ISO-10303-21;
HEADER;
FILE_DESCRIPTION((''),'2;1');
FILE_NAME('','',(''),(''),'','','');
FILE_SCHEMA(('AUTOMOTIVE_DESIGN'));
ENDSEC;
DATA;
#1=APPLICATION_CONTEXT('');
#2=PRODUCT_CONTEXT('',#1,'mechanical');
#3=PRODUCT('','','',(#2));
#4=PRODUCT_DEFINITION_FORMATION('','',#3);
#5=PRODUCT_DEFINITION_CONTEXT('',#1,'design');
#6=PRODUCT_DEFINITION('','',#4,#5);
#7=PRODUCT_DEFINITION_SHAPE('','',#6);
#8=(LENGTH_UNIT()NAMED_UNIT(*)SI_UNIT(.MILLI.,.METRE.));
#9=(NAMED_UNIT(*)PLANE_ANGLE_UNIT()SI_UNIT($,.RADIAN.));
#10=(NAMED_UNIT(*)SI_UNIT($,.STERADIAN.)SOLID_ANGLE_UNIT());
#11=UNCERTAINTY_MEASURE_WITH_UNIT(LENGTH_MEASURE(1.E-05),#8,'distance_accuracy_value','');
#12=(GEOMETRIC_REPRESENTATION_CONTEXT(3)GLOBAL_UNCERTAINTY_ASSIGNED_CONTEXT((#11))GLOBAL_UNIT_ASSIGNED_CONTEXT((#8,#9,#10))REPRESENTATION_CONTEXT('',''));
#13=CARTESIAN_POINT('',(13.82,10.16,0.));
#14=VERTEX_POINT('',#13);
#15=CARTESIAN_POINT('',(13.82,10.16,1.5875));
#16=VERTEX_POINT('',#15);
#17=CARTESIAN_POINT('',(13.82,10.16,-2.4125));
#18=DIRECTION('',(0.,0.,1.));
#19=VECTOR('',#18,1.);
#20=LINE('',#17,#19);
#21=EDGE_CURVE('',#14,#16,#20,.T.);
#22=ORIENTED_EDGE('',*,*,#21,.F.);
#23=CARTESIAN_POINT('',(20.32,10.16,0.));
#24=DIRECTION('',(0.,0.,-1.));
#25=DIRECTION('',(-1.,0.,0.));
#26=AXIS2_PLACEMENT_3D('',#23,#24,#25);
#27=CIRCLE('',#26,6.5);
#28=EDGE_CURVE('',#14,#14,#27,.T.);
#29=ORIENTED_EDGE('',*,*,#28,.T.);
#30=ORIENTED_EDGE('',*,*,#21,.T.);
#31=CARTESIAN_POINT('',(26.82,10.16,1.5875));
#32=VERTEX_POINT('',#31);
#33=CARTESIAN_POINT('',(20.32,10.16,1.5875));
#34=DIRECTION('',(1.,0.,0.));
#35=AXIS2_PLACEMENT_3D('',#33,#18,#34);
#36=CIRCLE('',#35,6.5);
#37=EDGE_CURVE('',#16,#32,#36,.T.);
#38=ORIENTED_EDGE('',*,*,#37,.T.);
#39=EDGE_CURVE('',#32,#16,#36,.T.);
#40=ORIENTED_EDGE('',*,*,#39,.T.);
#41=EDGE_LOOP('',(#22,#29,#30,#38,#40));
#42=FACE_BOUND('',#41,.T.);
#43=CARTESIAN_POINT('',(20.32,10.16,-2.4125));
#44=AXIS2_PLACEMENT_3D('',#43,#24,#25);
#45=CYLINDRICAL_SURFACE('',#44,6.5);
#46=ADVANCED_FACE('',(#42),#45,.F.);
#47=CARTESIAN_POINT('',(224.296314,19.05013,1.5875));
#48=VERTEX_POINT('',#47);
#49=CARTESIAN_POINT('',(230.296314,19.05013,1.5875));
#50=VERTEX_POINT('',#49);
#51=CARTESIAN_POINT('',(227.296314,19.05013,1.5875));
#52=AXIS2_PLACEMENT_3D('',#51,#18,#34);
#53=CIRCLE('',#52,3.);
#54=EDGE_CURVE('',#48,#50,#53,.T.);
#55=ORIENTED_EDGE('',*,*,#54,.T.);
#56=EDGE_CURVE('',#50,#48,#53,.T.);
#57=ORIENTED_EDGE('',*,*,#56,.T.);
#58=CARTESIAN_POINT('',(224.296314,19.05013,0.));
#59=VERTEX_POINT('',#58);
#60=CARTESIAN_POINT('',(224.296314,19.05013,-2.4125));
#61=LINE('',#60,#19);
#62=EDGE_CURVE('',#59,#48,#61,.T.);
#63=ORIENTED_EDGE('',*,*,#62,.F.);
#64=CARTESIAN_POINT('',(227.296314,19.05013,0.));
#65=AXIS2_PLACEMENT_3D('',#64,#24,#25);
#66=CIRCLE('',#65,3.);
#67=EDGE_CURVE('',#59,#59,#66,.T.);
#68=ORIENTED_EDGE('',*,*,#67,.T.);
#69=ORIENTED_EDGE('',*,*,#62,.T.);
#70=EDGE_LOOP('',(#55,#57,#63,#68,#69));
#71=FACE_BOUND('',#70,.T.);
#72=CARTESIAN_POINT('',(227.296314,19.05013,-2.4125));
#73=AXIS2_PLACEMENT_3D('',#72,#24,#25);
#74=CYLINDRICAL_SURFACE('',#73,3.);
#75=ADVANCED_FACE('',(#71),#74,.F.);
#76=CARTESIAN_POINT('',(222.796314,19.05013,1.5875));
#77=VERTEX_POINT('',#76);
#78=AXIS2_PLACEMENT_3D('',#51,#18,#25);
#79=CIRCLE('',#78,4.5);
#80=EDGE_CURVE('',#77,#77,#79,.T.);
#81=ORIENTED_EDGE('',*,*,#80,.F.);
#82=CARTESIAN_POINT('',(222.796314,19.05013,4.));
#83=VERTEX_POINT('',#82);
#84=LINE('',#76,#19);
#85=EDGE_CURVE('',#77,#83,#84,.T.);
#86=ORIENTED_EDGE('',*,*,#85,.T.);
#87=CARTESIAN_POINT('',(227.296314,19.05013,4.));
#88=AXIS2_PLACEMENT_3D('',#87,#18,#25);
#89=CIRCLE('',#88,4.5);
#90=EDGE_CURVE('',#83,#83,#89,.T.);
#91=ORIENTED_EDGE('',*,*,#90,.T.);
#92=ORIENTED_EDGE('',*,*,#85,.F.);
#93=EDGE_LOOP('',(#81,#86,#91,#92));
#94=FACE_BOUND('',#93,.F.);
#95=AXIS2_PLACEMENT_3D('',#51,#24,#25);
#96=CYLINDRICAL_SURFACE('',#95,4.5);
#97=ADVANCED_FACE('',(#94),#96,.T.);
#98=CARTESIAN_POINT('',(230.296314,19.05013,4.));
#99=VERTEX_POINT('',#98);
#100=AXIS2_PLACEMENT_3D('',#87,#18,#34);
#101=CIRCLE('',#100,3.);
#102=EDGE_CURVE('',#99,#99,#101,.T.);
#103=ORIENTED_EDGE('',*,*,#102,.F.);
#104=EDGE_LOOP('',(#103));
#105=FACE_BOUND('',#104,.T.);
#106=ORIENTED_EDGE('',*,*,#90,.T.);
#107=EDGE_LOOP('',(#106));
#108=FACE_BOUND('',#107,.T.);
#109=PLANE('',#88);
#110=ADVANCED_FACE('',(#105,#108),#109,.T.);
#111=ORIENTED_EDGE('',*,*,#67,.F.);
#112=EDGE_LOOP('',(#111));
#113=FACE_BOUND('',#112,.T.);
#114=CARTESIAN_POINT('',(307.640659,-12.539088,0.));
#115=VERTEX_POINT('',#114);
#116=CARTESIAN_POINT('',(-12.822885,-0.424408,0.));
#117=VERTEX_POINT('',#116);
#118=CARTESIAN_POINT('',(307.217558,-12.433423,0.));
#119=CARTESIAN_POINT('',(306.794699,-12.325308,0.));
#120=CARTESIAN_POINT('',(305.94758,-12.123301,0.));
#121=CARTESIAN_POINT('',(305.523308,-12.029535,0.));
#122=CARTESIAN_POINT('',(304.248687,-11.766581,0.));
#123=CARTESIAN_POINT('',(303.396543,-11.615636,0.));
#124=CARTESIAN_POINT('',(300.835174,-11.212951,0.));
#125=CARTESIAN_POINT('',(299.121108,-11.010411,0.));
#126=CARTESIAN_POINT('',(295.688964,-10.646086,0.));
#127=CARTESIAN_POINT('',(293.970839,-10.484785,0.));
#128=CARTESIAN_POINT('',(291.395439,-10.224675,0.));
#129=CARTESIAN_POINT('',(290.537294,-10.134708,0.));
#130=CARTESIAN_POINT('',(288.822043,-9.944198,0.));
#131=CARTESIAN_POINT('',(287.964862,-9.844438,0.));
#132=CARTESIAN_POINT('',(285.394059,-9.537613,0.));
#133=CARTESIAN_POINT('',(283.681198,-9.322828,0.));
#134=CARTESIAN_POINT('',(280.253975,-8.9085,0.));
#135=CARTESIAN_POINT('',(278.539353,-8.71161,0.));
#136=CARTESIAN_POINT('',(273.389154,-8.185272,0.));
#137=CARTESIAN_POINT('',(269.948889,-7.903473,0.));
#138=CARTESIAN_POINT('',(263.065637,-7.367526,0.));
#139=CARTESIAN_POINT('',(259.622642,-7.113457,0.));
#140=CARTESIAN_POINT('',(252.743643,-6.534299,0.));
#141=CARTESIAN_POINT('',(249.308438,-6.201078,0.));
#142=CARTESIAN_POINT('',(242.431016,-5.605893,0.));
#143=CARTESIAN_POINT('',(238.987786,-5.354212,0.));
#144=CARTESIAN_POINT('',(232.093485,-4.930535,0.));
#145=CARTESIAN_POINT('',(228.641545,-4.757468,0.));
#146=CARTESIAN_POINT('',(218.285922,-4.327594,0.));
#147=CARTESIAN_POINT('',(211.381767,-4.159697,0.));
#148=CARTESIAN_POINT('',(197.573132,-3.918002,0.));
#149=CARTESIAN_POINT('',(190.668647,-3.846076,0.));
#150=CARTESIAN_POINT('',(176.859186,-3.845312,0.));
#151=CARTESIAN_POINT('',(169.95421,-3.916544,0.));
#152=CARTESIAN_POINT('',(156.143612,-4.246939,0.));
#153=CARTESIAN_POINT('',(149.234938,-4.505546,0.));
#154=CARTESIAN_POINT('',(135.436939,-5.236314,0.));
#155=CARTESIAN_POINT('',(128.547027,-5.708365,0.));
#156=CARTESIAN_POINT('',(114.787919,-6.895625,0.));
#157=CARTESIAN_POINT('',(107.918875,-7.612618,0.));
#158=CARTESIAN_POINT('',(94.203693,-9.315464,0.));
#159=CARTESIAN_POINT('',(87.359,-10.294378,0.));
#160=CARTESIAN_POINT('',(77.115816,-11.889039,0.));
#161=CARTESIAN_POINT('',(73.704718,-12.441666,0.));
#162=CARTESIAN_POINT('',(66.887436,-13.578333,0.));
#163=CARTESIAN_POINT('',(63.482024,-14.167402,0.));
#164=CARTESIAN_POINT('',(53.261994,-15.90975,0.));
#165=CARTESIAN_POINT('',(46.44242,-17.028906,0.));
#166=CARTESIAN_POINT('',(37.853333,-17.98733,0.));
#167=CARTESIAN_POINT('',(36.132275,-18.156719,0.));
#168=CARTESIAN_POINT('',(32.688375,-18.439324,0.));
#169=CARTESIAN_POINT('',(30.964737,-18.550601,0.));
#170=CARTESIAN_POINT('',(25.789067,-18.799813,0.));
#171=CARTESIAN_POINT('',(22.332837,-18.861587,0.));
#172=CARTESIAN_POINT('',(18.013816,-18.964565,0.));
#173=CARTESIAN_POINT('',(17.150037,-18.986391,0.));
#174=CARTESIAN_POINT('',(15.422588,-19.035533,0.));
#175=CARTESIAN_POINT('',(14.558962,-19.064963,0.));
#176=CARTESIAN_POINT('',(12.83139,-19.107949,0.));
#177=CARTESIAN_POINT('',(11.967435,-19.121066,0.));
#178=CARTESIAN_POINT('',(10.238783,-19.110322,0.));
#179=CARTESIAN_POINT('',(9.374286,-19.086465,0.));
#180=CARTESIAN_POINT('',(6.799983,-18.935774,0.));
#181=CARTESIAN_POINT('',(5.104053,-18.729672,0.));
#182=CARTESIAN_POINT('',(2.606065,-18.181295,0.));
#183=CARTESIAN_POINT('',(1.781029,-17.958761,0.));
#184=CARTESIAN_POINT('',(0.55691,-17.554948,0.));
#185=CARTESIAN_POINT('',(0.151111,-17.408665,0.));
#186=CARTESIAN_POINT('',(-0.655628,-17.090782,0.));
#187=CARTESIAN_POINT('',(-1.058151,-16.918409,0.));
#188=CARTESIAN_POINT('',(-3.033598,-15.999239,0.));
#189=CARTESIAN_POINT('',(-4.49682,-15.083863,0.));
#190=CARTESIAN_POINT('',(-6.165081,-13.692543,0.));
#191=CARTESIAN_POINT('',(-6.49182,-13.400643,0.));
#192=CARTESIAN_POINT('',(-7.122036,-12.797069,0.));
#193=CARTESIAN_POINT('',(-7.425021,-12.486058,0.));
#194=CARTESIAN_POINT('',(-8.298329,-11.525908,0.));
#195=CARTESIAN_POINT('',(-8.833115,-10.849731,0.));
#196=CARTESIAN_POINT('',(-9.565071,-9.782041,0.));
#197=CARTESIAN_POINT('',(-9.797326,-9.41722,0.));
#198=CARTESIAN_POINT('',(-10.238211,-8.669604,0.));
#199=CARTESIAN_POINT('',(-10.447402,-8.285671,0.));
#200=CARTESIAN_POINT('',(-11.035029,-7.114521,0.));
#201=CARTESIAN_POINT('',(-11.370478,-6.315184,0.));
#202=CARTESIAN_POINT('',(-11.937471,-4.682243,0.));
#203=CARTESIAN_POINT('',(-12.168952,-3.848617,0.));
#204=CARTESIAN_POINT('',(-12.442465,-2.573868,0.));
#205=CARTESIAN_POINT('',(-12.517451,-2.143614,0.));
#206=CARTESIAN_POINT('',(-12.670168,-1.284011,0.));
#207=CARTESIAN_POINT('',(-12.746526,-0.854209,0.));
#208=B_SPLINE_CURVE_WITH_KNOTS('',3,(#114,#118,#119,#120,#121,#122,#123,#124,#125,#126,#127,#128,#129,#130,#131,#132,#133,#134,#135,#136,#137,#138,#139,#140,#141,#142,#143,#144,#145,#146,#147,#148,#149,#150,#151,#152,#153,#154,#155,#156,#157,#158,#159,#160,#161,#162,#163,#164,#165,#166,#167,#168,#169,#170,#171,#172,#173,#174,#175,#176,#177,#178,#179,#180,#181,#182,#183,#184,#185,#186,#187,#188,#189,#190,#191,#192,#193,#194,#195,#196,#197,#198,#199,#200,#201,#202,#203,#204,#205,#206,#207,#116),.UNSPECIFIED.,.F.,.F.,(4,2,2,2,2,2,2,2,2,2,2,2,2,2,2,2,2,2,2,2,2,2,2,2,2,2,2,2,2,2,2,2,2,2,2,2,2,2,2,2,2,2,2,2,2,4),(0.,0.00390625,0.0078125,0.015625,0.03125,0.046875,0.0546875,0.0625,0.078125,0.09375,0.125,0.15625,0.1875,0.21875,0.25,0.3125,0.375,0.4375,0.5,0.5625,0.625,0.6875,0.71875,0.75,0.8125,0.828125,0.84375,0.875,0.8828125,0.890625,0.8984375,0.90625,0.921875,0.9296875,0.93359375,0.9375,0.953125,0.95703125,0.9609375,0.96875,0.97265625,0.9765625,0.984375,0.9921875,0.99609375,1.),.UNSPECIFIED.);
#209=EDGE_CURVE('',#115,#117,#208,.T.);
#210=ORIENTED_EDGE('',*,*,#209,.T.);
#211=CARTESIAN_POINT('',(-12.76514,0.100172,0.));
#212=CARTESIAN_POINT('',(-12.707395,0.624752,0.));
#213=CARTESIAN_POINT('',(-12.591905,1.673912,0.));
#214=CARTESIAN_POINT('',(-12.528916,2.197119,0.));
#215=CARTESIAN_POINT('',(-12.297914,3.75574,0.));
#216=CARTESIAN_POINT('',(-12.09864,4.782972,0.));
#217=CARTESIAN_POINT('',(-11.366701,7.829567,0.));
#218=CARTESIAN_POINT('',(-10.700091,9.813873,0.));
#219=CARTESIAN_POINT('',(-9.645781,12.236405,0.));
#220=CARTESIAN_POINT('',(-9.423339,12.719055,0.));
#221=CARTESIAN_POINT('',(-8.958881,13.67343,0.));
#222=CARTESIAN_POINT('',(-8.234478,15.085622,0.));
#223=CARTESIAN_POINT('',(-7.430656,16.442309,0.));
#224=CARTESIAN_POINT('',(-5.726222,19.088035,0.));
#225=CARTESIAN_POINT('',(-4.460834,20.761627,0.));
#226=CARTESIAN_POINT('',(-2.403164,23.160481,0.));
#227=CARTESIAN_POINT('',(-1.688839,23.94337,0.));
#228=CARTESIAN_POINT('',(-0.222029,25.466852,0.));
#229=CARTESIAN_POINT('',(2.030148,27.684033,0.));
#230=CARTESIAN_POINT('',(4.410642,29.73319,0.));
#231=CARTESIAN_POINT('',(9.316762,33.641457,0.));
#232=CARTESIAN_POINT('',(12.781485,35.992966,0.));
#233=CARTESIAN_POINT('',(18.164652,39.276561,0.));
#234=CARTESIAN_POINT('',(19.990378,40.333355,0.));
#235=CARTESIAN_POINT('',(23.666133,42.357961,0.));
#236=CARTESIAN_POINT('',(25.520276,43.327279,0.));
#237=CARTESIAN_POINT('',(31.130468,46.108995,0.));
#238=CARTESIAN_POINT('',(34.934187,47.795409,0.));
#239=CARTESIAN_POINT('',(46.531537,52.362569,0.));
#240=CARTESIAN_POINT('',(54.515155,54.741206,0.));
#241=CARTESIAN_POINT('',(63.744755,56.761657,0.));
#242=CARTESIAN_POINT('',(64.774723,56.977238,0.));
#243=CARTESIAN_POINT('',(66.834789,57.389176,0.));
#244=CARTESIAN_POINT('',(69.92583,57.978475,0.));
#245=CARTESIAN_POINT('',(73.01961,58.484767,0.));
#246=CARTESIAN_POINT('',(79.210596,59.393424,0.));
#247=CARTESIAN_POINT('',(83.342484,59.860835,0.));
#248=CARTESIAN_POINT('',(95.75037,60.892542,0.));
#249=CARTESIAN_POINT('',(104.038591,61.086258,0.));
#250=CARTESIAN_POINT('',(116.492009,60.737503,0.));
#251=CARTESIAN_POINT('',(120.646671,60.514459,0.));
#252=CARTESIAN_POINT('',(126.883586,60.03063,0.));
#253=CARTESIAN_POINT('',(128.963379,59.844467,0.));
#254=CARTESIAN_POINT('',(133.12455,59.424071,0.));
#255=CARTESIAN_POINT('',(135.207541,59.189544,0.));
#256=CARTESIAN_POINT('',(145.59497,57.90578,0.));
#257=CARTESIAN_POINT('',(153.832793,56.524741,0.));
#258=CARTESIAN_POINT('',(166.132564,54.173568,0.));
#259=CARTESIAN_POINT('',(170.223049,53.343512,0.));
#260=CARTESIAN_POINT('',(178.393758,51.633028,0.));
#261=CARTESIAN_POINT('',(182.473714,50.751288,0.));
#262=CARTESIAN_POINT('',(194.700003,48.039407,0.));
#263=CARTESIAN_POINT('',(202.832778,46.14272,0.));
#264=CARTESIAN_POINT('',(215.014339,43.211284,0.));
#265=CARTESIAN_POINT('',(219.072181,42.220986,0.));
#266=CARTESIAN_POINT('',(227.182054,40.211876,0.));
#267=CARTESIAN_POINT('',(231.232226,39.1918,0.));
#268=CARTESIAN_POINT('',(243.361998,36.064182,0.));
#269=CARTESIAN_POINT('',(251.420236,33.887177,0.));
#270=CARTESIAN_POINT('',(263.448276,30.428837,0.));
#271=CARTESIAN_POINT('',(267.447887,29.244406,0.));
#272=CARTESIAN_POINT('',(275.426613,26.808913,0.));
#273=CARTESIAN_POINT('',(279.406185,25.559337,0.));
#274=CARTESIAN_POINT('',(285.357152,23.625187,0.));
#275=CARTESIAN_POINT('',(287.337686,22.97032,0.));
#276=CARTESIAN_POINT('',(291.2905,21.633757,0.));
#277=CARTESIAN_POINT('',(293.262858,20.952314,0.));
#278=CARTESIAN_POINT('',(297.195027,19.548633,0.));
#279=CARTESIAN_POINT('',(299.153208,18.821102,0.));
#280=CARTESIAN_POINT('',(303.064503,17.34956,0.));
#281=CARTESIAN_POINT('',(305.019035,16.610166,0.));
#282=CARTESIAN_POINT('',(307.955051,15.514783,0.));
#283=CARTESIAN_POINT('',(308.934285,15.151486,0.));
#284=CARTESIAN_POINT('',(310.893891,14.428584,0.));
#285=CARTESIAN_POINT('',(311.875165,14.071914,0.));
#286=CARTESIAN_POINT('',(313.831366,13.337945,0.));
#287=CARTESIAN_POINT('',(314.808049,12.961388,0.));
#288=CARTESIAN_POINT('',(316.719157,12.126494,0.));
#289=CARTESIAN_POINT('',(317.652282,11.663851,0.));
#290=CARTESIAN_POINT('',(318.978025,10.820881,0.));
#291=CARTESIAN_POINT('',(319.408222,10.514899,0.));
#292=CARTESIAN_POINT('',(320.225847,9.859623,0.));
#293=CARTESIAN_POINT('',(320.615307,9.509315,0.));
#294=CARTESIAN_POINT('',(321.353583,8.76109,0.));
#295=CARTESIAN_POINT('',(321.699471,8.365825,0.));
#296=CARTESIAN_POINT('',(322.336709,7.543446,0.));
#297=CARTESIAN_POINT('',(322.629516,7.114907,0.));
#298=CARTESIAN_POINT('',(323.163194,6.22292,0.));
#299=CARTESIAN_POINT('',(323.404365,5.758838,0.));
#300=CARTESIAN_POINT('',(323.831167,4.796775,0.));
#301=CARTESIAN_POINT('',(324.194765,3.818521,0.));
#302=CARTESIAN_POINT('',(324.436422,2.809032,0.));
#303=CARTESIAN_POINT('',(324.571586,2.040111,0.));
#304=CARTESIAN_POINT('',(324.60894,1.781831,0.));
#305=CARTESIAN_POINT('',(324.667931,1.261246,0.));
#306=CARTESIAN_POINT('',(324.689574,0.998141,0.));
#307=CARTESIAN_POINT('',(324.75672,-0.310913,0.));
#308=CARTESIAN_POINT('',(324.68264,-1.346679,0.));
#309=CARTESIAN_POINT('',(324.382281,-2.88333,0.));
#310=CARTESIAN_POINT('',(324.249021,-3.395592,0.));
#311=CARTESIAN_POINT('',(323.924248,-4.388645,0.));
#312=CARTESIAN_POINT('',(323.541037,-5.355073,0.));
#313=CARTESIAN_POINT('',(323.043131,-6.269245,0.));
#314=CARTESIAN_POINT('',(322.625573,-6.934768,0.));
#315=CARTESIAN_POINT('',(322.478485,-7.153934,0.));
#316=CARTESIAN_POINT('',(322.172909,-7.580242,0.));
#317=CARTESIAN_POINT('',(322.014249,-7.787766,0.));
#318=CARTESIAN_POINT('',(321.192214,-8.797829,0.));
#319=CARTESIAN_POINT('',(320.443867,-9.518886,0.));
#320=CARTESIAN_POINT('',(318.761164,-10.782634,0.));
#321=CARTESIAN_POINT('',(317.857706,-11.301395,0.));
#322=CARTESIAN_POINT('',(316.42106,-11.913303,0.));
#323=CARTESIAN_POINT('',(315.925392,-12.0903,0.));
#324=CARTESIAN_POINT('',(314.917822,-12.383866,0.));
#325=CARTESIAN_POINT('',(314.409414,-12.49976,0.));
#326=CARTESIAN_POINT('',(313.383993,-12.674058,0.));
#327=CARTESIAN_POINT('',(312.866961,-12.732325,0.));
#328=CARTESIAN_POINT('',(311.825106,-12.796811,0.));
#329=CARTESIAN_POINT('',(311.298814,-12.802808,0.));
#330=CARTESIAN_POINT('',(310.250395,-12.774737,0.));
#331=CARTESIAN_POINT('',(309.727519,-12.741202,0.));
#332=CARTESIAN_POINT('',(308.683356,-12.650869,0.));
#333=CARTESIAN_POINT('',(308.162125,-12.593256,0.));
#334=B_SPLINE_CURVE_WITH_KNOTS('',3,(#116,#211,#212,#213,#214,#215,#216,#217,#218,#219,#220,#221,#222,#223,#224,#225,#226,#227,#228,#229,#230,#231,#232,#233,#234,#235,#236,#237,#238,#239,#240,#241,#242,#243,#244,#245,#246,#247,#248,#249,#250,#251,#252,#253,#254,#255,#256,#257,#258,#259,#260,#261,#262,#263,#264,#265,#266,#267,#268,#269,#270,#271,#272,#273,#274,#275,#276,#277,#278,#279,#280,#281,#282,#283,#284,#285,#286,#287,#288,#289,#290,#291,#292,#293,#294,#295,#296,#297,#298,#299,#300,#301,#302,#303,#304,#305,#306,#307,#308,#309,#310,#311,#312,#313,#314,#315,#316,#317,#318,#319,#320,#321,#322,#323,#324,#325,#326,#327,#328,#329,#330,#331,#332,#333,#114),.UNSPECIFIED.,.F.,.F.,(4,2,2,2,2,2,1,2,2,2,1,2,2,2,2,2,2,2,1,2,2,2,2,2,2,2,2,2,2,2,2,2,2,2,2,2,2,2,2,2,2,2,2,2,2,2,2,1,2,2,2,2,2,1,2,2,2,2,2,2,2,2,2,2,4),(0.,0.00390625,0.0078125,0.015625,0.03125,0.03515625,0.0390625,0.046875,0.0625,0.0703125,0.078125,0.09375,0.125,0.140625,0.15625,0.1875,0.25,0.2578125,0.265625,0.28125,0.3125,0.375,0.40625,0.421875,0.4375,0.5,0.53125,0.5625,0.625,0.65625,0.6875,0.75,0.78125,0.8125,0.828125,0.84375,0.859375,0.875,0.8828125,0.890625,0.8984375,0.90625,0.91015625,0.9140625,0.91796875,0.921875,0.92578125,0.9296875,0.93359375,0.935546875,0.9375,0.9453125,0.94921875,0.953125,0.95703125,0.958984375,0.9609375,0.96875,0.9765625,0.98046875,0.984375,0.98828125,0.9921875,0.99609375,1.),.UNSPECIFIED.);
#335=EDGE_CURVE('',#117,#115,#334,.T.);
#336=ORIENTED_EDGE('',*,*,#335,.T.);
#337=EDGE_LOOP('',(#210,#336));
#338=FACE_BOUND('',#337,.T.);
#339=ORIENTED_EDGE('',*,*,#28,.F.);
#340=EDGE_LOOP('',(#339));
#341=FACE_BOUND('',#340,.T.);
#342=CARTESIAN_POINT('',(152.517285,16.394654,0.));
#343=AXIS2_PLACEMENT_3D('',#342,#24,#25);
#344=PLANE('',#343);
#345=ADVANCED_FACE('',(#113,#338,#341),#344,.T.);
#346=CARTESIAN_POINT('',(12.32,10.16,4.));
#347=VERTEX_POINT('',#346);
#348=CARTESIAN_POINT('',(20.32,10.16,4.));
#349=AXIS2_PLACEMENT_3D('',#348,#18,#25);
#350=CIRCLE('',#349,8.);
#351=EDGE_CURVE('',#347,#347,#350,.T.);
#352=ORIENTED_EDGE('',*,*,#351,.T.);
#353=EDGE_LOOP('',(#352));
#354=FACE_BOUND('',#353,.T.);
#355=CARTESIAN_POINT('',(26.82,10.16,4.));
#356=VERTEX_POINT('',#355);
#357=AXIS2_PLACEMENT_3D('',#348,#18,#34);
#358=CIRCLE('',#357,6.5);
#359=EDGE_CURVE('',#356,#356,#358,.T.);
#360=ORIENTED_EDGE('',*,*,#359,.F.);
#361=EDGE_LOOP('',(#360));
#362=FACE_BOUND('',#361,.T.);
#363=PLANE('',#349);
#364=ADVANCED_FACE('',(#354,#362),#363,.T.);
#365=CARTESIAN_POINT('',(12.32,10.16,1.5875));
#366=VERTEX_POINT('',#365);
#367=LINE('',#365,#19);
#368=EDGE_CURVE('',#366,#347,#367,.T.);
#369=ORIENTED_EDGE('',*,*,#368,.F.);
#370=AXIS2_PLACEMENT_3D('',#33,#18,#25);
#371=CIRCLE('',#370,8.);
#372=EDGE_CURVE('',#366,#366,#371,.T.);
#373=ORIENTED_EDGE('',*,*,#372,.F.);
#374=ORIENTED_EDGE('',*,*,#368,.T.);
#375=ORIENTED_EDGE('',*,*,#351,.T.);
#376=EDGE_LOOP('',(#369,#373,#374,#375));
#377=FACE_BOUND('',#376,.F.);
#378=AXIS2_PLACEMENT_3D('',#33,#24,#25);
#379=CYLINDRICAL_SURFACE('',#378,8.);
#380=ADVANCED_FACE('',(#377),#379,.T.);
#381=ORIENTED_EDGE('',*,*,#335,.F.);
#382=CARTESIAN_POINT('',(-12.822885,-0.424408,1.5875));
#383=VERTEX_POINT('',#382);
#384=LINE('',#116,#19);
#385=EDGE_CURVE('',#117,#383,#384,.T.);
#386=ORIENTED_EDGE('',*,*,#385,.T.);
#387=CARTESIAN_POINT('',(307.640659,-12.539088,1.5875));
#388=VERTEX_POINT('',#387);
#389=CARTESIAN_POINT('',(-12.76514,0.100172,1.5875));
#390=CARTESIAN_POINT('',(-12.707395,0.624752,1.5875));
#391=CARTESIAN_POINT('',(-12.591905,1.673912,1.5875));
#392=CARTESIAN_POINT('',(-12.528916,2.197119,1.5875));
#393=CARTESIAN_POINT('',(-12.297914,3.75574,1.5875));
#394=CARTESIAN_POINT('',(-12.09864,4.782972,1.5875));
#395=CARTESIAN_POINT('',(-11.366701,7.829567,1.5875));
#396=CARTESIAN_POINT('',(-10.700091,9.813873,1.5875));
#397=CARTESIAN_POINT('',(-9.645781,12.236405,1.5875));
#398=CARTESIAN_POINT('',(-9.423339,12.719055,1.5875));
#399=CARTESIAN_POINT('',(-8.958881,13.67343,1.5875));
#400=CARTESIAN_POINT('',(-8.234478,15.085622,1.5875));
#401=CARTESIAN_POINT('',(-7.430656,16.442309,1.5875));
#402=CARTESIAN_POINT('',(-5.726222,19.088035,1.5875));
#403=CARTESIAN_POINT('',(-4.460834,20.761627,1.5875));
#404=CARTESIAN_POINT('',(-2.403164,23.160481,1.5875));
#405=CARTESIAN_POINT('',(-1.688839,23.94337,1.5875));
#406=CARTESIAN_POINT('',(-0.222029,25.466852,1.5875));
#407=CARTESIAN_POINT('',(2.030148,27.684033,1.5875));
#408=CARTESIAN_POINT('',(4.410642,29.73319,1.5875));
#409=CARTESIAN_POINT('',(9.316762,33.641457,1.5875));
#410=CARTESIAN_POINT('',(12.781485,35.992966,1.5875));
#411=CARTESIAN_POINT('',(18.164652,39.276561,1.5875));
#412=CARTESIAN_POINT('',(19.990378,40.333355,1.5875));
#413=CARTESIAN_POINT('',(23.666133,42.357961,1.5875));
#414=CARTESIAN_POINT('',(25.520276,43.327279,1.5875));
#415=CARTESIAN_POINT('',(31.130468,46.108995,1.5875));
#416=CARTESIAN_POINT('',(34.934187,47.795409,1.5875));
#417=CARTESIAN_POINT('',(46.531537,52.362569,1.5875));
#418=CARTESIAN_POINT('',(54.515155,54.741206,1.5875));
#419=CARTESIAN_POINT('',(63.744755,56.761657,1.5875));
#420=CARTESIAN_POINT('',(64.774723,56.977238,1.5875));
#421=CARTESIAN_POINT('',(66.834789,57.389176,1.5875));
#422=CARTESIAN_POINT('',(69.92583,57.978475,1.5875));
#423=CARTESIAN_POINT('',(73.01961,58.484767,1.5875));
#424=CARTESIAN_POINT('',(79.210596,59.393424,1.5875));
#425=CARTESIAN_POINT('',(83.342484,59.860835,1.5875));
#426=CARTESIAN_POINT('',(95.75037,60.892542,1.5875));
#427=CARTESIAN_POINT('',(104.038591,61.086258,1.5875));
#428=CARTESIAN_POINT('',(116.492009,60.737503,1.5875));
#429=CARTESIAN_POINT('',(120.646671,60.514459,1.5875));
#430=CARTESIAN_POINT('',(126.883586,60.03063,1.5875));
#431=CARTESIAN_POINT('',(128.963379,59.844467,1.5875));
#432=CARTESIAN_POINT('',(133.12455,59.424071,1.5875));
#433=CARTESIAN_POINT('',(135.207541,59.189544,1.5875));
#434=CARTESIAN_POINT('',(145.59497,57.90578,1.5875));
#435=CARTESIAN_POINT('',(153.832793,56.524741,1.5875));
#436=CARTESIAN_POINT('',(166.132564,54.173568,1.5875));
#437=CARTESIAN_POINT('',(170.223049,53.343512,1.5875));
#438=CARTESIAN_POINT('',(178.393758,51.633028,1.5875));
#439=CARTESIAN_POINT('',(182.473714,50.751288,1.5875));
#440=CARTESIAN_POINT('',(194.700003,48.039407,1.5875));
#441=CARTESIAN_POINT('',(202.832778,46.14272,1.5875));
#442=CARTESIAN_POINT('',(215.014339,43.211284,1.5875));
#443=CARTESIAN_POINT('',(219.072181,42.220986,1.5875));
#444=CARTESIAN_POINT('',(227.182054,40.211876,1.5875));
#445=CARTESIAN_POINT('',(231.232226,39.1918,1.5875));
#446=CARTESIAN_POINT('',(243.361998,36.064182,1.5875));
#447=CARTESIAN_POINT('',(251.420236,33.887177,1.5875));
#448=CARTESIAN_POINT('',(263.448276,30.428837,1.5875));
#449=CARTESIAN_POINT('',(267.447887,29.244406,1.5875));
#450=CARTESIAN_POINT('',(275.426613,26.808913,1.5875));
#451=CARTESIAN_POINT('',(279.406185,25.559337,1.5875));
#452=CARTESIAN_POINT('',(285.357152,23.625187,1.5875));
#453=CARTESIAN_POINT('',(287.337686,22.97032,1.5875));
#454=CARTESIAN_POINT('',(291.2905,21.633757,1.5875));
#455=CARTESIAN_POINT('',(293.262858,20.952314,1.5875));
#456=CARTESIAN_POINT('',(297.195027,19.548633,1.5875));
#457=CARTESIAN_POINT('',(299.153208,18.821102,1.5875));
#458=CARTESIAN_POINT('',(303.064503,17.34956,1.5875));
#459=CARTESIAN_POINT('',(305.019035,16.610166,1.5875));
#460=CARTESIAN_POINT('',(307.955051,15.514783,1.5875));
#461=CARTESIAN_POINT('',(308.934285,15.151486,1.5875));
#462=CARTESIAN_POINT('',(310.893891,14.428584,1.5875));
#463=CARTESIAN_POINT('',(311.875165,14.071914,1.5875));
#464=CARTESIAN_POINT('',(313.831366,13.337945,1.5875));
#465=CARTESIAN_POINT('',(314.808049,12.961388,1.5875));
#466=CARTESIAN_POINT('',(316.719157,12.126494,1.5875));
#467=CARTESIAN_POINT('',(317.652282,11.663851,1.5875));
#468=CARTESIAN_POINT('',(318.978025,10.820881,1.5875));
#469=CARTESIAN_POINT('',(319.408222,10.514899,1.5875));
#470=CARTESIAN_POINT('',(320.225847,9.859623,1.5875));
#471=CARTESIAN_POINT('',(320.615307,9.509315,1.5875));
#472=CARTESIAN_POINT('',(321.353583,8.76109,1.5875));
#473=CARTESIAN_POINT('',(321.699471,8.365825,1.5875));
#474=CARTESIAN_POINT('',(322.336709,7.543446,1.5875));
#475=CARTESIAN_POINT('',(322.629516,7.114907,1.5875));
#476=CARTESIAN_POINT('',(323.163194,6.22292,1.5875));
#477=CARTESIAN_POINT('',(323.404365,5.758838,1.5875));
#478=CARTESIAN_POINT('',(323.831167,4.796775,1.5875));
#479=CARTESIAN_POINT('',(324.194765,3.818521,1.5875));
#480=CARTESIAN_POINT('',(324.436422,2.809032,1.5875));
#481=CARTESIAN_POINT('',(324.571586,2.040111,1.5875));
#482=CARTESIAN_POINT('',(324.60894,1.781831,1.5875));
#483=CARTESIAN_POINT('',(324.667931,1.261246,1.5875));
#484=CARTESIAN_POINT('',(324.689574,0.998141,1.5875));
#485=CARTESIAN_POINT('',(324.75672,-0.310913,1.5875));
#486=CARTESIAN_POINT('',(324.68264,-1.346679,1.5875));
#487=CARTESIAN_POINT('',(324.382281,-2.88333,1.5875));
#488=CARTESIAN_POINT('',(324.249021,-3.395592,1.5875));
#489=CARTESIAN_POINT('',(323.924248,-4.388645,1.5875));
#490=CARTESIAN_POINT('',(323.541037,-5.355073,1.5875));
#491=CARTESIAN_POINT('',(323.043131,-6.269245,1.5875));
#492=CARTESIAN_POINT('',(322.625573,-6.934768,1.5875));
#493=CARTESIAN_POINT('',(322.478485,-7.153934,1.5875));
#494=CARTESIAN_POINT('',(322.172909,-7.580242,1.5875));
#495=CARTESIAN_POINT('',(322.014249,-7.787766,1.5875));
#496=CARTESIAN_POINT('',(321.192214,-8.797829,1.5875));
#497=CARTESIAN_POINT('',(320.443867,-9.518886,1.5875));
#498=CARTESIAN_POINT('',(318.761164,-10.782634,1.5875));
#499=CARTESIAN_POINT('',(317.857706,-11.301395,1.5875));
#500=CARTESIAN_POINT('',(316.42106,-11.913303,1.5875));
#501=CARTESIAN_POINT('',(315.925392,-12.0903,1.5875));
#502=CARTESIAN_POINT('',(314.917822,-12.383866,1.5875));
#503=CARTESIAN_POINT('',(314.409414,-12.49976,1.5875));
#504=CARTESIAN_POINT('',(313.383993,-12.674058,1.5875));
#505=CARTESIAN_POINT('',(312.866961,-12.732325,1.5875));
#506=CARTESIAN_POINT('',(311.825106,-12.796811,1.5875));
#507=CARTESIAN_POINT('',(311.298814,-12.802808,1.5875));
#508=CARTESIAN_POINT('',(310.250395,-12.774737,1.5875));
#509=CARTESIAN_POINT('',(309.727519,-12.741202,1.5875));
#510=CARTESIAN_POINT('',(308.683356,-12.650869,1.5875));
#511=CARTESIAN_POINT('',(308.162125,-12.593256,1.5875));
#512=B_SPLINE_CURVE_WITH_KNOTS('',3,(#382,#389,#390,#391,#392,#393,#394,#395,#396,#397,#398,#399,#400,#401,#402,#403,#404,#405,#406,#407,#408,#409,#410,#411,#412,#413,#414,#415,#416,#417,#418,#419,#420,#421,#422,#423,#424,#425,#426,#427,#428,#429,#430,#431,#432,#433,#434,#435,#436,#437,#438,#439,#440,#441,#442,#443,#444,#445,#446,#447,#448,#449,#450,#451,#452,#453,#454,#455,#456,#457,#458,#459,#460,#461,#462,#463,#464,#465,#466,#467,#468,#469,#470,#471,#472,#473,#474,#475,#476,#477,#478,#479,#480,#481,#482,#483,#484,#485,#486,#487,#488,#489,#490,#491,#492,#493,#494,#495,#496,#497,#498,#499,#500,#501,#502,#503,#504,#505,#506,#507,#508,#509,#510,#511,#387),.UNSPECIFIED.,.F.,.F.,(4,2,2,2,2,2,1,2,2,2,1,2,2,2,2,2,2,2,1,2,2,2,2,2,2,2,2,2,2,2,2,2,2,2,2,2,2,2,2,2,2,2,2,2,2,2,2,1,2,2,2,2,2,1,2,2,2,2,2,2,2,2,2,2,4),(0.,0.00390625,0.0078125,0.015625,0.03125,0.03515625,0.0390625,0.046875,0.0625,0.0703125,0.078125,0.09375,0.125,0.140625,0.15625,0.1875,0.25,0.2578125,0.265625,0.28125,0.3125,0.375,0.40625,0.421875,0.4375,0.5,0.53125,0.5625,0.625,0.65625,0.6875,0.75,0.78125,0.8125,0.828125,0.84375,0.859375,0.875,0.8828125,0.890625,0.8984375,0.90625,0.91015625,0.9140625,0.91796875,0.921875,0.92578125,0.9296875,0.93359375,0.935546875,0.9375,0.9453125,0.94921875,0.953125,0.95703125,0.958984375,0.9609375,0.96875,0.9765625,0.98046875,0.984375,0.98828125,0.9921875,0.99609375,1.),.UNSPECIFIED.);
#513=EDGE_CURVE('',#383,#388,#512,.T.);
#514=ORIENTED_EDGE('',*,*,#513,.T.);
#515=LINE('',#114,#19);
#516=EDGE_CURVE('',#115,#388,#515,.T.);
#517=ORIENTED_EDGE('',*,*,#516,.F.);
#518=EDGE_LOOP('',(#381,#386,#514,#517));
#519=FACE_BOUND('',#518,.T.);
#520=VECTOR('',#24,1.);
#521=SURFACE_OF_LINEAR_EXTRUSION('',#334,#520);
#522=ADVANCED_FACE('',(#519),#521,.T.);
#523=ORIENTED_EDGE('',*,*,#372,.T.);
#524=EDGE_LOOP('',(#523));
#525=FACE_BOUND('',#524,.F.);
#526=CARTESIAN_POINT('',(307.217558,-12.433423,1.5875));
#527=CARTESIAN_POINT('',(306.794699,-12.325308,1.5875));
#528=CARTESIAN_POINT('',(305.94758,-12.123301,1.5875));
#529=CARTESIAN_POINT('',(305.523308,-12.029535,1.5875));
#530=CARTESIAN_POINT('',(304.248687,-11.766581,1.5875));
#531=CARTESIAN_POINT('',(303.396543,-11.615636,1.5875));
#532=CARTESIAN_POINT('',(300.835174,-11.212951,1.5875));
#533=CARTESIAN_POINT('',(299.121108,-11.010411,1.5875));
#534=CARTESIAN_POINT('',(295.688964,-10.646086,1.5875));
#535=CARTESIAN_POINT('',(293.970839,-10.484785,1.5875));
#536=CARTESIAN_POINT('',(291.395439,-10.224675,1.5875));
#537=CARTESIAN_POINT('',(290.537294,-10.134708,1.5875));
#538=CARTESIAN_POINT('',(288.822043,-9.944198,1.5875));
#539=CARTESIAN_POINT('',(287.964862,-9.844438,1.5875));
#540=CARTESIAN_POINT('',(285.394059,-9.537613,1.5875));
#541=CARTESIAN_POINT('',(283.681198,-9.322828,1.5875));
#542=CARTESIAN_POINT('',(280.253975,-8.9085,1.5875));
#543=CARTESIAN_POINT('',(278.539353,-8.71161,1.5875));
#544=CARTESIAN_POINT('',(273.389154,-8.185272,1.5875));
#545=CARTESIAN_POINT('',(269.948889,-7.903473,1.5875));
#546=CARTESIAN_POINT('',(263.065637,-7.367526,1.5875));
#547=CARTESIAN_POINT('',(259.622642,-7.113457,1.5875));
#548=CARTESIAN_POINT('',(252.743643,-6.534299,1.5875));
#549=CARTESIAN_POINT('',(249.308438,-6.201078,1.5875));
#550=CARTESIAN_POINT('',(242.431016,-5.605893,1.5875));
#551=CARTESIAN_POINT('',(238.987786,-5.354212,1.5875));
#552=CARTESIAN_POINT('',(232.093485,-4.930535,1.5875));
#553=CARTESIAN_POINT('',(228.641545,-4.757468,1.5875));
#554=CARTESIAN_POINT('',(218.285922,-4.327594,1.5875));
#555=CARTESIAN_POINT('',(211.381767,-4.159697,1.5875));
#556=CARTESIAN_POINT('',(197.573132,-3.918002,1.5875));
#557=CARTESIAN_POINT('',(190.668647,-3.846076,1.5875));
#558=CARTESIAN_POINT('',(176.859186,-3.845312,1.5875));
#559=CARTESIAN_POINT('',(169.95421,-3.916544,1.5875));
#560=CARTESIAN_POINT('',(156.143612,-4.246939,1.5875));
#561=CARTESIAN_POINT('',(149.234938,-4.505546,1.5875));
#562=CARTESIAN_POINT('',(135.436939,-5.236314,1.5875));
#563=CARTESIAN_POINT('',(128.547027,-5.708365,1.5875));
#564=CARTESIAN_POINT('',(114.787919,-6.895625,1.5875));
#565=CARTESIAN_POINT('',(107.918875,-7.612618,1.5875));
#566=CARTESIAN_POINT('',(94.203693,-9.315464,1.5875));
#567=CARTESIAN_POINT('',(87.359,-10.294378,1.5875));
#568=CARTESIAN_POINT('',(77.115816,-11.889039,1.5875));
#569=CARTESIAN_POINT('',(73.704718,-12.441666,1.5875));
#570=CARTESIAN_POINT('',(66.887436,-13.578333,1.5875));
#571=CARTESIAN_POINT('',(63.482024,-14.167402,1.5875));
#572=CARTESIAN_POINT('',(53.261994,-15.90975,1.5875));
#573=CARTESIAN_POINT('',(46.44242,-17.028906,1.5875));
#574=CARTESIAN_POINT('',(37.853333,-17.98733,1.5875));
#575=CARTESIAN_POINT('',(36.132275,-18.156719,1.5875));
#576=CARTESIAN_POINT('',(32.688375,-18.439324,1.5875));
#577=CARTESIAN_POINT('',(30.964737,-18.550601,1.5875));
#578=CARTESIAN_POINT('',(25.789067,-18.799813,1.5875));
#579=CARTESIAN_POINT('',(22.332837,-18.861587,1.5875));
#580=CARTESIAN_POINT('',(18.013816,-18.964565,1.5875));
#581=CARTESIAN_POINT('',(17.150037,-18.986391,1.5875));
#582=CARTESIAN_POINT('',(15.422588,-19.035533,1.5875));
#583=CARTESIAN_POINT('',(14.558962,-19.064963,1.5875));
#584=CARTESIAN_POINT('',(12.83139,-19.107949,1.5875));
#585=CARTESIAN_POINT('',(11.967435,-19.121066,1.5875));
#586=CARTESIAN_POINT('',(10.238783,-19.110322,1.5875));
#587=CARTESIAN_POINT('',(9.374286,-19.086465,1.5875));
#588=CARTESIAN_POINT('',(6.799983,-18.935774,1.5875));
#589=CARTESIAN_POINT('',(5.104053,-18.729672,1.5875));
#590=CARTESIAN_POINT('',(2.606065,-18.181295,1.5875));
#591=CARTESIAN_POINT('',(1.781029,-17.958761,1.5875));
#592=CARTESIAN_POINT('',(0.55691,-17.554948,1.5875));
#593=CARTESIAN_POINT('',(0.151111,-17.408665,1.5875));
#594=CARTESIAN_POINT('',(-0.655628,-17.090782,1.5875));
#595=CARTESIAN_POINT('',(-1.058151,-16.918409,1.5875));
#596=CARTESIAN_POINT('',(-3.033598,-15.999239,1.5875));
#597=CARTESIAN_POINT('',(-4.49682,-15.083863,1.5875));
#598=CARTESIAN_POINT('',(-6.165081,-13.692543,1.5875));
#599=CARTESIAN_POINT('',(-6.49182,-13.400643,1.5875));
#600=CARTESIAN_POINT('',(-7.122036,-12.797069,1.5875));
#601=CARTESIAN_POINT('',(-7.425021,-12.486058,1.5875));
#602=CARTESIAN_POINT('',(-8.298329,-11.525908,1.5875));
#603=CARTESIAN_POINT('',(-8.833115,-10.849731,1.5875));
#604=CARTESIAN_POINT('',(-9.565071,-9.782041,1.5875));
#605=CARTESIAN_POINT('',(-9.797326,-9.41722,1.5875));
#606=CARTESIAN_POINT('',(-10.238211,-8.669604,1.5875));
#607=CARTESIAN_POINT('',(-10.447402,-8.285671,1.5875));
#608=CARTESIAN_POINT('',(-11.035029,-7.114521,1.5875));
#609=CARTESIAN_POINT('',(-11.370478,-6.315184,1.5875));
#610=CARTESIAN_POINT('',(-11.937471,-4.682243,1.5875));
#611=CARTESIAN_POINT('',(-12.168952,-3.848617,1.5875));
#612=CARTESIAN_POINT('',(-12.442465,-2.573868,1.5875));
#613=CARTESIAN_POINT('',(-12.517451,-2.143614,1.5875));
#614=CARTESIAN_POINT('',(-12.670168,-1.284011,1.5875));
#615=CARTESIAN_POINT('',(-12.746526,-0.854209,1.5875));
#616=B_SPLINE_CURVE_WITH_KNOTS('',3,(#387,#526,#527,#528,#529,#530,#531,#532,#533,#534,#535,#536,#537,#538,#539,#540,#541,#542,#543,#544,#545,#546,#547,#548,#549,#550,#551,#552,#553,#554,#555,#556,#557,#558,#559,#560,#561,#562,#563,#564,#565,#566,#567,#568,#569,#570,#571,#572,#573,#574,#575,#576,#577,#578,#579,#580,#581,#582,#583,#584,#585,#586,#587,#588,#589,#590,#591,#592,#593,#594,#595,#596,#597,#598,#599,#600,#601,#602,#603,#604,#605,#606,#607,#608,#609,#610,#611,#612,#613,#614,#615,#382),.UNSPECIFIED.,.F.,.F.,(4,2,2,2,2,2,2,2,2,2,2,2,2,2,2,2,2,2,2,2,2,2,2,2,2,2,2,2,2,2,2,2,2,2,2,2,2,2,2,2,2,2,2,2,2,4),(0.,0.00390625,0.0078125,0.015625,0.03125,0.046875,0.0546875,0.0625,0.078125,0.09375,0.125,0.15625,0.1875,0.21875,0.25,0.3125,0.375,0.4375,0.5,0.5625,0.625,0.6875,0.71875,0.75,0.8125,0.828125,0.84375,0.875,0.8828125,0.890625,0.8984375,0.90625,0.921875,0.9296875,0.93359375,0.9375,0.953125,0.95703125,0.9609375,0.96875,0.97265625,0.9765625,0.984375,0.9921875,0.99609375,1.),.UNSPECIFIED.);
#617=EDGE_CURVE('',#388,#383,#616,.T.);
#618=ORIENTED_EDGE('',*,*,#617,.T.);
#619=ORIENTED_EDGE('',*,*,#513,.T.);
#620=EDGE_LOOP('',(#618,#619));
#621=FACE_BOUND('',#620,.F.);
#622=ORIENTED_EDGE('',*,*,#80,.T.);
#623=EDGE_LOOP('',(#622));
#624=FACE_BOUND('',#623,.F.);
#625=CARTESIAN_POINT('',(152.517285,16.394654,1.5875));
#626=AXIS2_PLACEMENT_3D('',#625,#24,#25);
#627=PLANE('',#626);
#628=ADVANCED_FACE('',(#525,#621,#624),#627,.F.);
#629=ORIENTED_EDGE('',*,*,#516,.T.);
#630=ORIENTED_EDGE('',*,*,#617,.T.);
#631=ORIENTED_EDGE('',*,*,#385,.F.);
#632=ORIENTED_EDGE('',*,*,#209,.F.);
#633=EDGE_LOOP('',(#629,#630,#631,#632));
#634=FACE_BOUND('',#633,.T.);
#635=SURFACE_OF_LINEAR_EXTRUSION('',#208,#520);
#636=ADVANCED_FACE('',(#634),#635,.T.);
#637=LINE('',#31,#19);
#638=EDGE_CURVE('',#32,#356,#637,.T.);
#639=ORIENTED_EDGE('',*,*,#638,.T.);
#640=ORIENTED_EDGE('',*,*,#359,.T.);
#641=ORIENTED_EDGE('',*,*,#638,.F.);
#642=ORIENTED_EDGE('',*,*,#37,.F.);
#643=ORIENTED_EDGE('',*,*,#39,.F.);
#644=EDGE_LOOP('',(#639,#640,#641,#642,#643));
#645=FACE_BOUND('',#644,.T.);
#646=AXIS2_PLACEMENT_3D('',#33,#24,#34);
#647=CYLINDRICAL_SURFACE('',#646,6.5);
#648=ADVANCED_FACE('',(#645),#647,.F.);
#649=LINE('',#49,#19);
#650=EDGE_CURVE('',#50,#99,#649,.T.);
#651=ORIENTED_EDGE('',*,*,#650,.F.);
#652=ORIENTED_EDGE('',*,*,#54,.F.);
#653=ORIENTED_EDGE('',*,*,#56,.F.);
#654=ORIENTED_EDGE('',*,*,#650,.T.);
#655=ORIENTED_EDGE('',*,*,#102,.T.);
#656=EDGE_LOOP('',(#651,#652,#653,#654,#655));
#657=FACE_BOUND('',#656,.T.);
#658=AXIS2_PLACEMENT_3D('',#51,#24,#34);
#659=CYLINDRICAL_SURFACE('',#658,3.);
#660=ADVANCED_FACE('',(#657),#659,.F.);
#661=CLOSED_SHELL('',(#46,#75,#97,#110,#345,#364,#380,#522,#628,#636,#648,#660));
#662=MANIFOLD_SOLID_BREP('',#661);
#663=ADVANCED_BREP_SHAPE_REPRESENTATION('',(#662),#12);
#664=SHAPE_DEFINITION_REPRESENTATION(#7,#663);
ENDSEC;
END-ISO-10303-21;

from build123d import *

# Parameters (mm, degrees)
BOSS_EXTRUDE1_DEPTH = 1.5875
SKETCH2_R           = 4.5
SKETCH2_R_2         = 3
SKETCH2_R_3         = 8
SKETCH2_R_4         = 6.5
BOSS_EXTRUDE2_DEPTH = 2.412500128
CUT_EXTRUDE1_START  = -4
SKETCH2_4_R         = 6.5
SKETCH2_4_R_2       = 5.75
SKETCH2_4_R_3       = 3
CUT_EXTRUDE1_DEPTH  = 4
SKETCH3_R           = 3
SKETCH3_R_2         = 6.5
BOSS_EXTRUDE3_DEPTH = 1.5875


with BuildPart() as part:
    # Sketch1 → Boss-Extrude1 (new body)
    with BuildSketch(Plane.XY):
        with BuildLine():
            add(Edge.make_bspline(
                [(0.000560351, 0.000130087), (0.810633127, 7.359196055), (8.649092025, 17.856605174), (26.286719818, 29.975176328), (52.111128271, 42.069215275), (89.597618475, 49.290763054), (131.400792109, 47.884831915), (173.256699242, 40.041104278), (217.961060472, 29.612974894), (256.952064401, 19.528920948), (290.35983767, 8.71099439), (301.273197721, 4.382828139), (314.816918223, -0.516206742), (309.846313895, 0.000130087)],
                knots=[0, 0, 0, 0, 0.060863618, 0.113688265, 0.188608742, 0.312908923, 0.448482434, 0.557612135, 0.691544113, 0.852438279, 0.92975597, 0.976058229, 1, 1, 1, 1], degree=3))
            add(Edge.make_bspline(
                [(309.846313895, 0.000130087), (303.956832565, 1.47095521), (293.989507544, 2.093987313), (276.26402299, 4.514356704), (260.846344817, 5.427413394), (235.858814759, 7.870306192), (205.101424636, 8.838080282), (157.718638092, 9.030650149), (110.497331172, 6.181495223), (66.506197185, -0.586669107), (36.454672816, -6.098499901), (15.316603331, -6.189065841), (1.230714189, -6.924076091), (0.000560351, 0.000130087)],
                knots=[0, 0, 0, 0, 0.057787081, 0.095274891, 0.171021118, 0.205339302, 0.335319146, 0.464904334, 0.658702312, 0.785511947, 0.893517288, 0.94309214, 1, 1, 1, 1], degree=3))
        make_face()
    extrude(amount=BOSS_EXTRUDE1_DEPTH)

    # Sketch2 → Boss-Extrude2 (add)
    # profile 1 of 2: a face of its own
    with BuildSketch(Plane.XY.offset(1.5875)):
        with Locations(Location((227.296313895, 19.050130087, 0), (0, 0, 180))):
            Circle(SKETCH2_R)
        with Locations((227.296313895, 19.050130087)):
            Circle(SKETCH2_R_2, mode=Mode.SUBTRACT)
    # profile 2 of 2: a face of its own
    with BuildSketch(Plane.XY.offset(1.5875)):
        with Locations(Location((20.32, 10.16, 0), (0, 0, 180))):
            Circle(SKETCH2_R_3)
        with Locations((20.32, 10.16)):
            Circle(SKETCH2_R_4, mode=Mode.SUBTRACT)
    extrude(amount=BOSS_EXTRUDE2_DEPTH)

    # Sketch2<4> → Cut-Extrude1 (cut)
    # profile 1 of 3: a face of its own
    with BuildSketch(Plane.XY.offset(1.5875).offset(CUT_EXTRUDE1_START)):
        with Locations(Location((20.32, 10.16, 0), (0, 0, 180))):
            Circle(SKETCH2_4_R)
        with Locations((20.32, 10.16)):
            Circle(SKETCH2_4_R_2, mode=Mode.SUBTRACT)
    # profile 2 of 3: a face of its own
    with BuildSketch(Plane.XY.offset(1.5875).offset(CUT_EXTRUDE1_START)):
        with Locations((20.32, 10.16)):
            Circle(SKETCH2_4_R_2)
    # profile 3 of 3: a face of its own
    with BuildSketch(Plane.XY.offset(1.5875).offset(CUT_EXTRUDE1_START)):
        with Locations(Location((227.296313895, 19.050130087, 0), (0, 0, 180))):
            Circle(SKETCH2_4_R_3)
    extrude(amount=CUT_EXTRUDE1_DEPTH, mode=Mode.SUBTRACT)

    # Sketch3 → Boss-Extrude3 (add)
    with BuildSketch(Plane(origin=(0, 0, 0), x_dir=(-1, 0, 0), z_dir=(0, 0, -1))):
        with BuildLine():
            add(Edge.make_bspline(
                [(-307.640659198, -12.539087546), (-307.217558356, -12.433423344), (-306.794698745, -12.325307987), (-305.94757969, -12.12330096), (-305.523307874, -12.029535003), (-304.248687144, -11.766580558), (-303.396542737, -11.615636043), (-300.835174159, -11.21295058), (-299.121107841, -11.010410608), (-295.688964286, -10.646085532), (-293.970839392, -10.484784679), (-291.395439154, -10.22467467), (-290.537293617, -10.134707532), (-288.822043271, -9.944198445), (-287.964861558, -9.844437915), (-285.39405881, -9.537612889), (-283.681197538, -9.322828465), (-280.253975137, -8.908499626), (-278.539352749, -8.711609867), (-273.38915432, -8.185272474), (-269.948888995, -7.903472556), (-263.065636854, -7.367525768), (-259.622642312, -7.113457385), (-252.743642855, -6.534299134), (-249.308438171, -6.201078142), (-242.431016007, -5.605893048), (-238.987786484, -5.354212306), (-232.093485223, -4.930535427), (-228.641544528, -4.75746758), (-218.28592219, -4.32759383), (-211.381766601, -4.15969745), (-197.573132458, -3.918001938), (-190.668647472, -3.846076469), (-176.859186388, -3.845312431), (-169.95421005, -3.916543553), (-156.143612339, -4.246938801), (-149.234937909, -4.505545645), (-135.436938869, -5.236314206), (-128.547026917, -5.708365191), (-114.787919071, -6.895625055), (-107.918875215, -7.612618486), (-94.20369313, -9.315463639), (-87.358999715, -10.294378281), (-77.115816219, -11.889039149), (-73.704718185, -12.441665778), (-66.887436207, -13.578332899), (-63.482024188, -14.167402421), (-53.261994425, -15.909749635), (-46.44242034, -17.028905731), (-37.85333306, -17.987330435), (-36.13227452, -18.1567188), (-32.688374655, -18.439324462), (-30.964736841, -18.550600806), (-25.789066845, -18.799813385), (-22.332836764, -18.861587488), (-18.013816177, -18.964564881), (-17.150036808, -18.986391339), (-15.422588421, -19.035533108), (-14.558961918, -19.064963111), (-12.831389771, -19.107949046), (-11.967435293, -19.121065622), (-10.238782943, -19.110322287), (-9.374285952, -19.086464893), (-6.799982642, -18.935774333), (-5.1040529, -18.729672307), (-2.60606507, -18.181294881), (-1.781028788, -17.958760916), (-0.556909532, -17.554948104), (-0.151110885, -17.40866523), (0.655628102, -17.090782411), (1.058151158, -16.918409424), (3.033598156, -15.999239459), (4.496819541, -15.083862947), (6.165080649, -13.692542546), (6.491819622, -13.400643282), (7.122036025, -12.797069108), (7.425020518, -12.486058415), (8.298329375, -11.525908236), (8.833114996, -10.8497312), (9.565071132, -9.782041168), (9.797325866, -9.417219923), (10.238211241, -8.669604442), (10.447401936, -8.285671349), (11.035029394, -7.114520562), (11.370477668, -6.315183997), (11.937470931, -4.682242599), (12.168952201, -3.848616751), (12.442464761, -2.573867952), (12.517450612, -2.143613721), (12.670167609, -1.284010684), (12.746526108, -0.854209165), (12.822884607, -0.424407646)],
                knots=[0, 0, 0, 0, 0.00390625, 0.00390625, 0.0078125, 0.0078125, 0.015625, 0.015625, 0.03125, 0.03125, 0.046875, 0.046875, 0.0546875, 0.0546875, 0.0625, 0.0625, 0.078125, 0.078125, 0.09375, 0.09375, 0.125, 0.125, 0.15625, 0.15625, 0.1875, 0.1875, 0.21875, 0.21875, 0.25, 0.25, 0.3125, 0.3125, 0.375, 0.375, 0.4375, 0.4375, 0.5, 0.5, 0.5625, 0.5625, 0.625, 0.625, 0.6875, 0.6875, 0.71875, 0.71875, 0.75, 0.75, 0.8125, 0.8125, 0.828125, 0.828125, 0.84375, 0.84375, 0.875, 0.875, 0.8828125, 0.8828125, 0.890625, 0.890625, 0.8984375, 0.8984375, 0.90625, 0.90625, 0.921875, 0.921875, 0.9296875, 0.9296875, 0.93359375, 0.93359375, 0.9375, 0.9375, 0.953125, 0.953125, 0.95703125, 0.95703125, 0.9609375, 0.9609375, 0.96875, 0.96875, 0.97265625, 0.97265625, 0.9765625, 0.9765625, 0.984375, 0.984375, 0.9921875, 0.9921875, 0.99609375, 0.99609375, 1, 1, 1, 1], degree=3))
            add(Edge.make_bspline(
                [(12.822884607, -0.424407646), (12.765139792, 0.100172261), (12.707394977, 0.624752169), (12.591905347, 1.673911984), (12.52891567, 2.197119212), (12.297914412, 3.755740267), (12.098640002, 4.782972021), (11.366701381, 7.829566749), (10.700090591, 9.813873371), (9.645780575, 12.236404594), (9.423338741, 12.719055064), (8.958881373, 13.673430352), (8.23447829, 15.08562207), (7.430656328, 16.442308561), (5.726221645, 19.088035245), (4.460833832, 20.761627444), (2.403164216, 23.160481023), (1.688839251, 23.943369949), (0.222028874, 25.466851836), (-2.030148044, 27.684033496), (-4.41064195, 29.733189538), (-9.316761854, 33.641457343), (-12.781484695, 35.992965612), (-18.164651713, 39.27656059), (-19.990377965, 40.333355187), (-23.666133339, 42.357961339), (-25.520275615, 43.327279207), (-31.130467721, 46.108995357), (-34.93418714, 47.795409072), (-46.531537172, 52.362569414), (-54.515154512, 54.741205672), (-63.744755219, 56.761657049), (-64.774723341, 56.977238408), (-66.834788658, 57.389176151), (-69.925830231, 57.978474657), (-73.019609651, 58.484766764), (-79.210596391, 59.393423564), (-83.34248448, 59.860835126), (-95.750370075, 60.892542115), (-104.038590609, 61.086258338), (-116.492008775, 60.737503457), (-120.646670589, 60.514458534), (-126.883586466, 60.030630314), (-128.963379302, 59.844466803), (-133.124550465, 59.424070644), (-135.207540526, 59.189544115), (-145.594970482, 57.905779676), (-153.832792977, 56.524741453), (-166.132564079, 54.17356844), (-170.223049115, 53.343512008), (-178.393757628, 51.633027655), (-182.473713838, 50.751287787), (-194.700002507, 48.039407471), (-202.832778155, 46.142719954), (-215.014339388, 43.211283588), (-219.072180538, 42.2209863), (-227.182053622, 40.211875691), (-231.232225779, 39.191799725), (-243.36199815, 36.064182322), (-251.420235834, 33.887176959), (-263.448276276, 30.428836901), (-267.447887219, 29.244406312), (-275.426612854, 26.808913408), (-279.40618455, 25.559336773), (-285.35715209, 23.625187338), (-287.337685563, 22.970320262), (-291.290499883, 21.633757462), (-293.262858235, 20.952313697), (-297.195026702, 19.548632822), (-299.153208366, 18.821101737), (-303.064502528, 17.349560104), (-305.0190352, 16.610166429), (-307.955050529, 15.51478285), (-308.934285457, 15.151485754), (-310.893891195, 14.428584226), (-311.875164589, 14.071914027), (-313.831366034, 13.337945403), (-314.808049131, 12.961388245), (-316.719156906, 12.12649388), (-317.652282104, 11.663851008), (-318.978024645, 10.820880812), (-319.408221872, 10.51489925), (-320.225847261, 9.859622762), (-320.615306755, 9.509314527), (-321.353583055, 8.761089941), (-321.699471113, 8.365825169), (-322.336708966, 7.543445692), (-322.629515882, 7.114906521), (-323.16319448, 6.222920138), (-323.404365456, 5.758838065), (-323.831166845, 4.79677466), (-324.194764938, 3.818521185), (-324.436422233, 2.809031523), (-324.571585545, 2.040110573), (-324.608939896, 1.781831147), (-324.667931422, 1.261246203), (-324.689573785, 0.998141034), (-324.756720117, -0.310913388), (-324.682639527, -1.346678633), (-324.382280636, -2.883329873), (-324.249021416, -3.39559158), (-323.924248204, -4.388644661), (-323.541036888, -5.35507277), (-323.0431311, -6.269244957), (-322.625572759, -6.934768493), (-322.478484529, -7.153933608), (-322.172908527, -7.580241987), (-322.014249177, -7.787766025), (-321.192214147, -8.79782852), (-320.443866507, -9.518885707), (-318.761163886, -10.782634014), (-317.8577056, -11.301394678), (-316.421060308, -11.913302637), (-315.925392414, -12.090300006), (-314.917821884, -12.383866446), (-314.409413715, -12.499760473), (-313.383993339, -12.674058303), (-312.866960582, -12.732324794), (-311.825105731, -12.796811206), (-311.298814045, -12.802807669), (-310.250395164, -12.774737499), (-309.727518722, -12.741201694), (-308.683355881, -12.650868989), (-308.162125238, -12.593256437), (-307.640659198, -12.539087546)],
                knots=[0, 0, 0, 0, 0.00390625, 0.00390625, 0.0078125, 0.0078125, 0.015625, 0.015625, 0.03125, 0.03125, 0.03515625, 0.03515625, 0.0390625, 0.046875, 0.046875, 0.0625, 0.0625, 0.0703125, 0.0703125, 0.078125, 0.09375, 0.09375, 0.125, 0.125, 0.140625, 0.140625, 0.15625, 0.15625, 0.1875, 0.1875, 0.25, 0.25, 0.2578125, 0.2578125, 0.265625, 0.28125, 0.28125, 0.3125, 0.3125, 0.375, 0.375, 0.40625, 0.40625, 0.421875, 0.421875, 0.4375, 0.4375, 0.5, 0.5, 0.53125, 0.53125, 0.5625, 0.5625, 0.625, 0.625, 0.65625, 0.65625, 0.6875, 0.6875, 0.75, 0.75, 0.78125, 0.78125, 0.8125, 0.8125, 0.828125, 0.828125, 0.84375, 0.84375, 0.859375, 0.859375, 0.875, 0.875, 0.8828125, 0.8828125, 0.890625, 0.890625, 0.8984375, 0.8984375, 0.90625, 0.90625, 0.91015625, 0.91015625, 0.9140625, 0.9140625, 0.91796875, 0.91796875, 0.921875, 0.921875, 0.92578125, 0.92578125, 0.9296875, 0.93359375, 0.93359375, 0.935546875, 0.935546875, 0.9375, 0.9375, 0.9453125, 0.9453125, 0.94921875, 0.94921875, 0.953125, 0.95703125, 0.95703125, 0.958984375, 0.958984375, 0.9609375, 0.9609375, 0.96875, 0.96875, 0.9765625, 0.9765625, 0.98046875, 0.98046875, 0.984375, 0.984375, 0.98828125, 0.98828125, 0.9921875, 0.9921875, 0.99609375, 0.99609375, 1, 1, 1, 1], degree=3))
        make_face()
        with Locations((-227.296313895, 19.050130087)):
            Circle(SKETCH3_R, mode=Mode.SUBTRACT)
        with Locations((-20.32, 10.16)):
            Circle(SKETCH3_R_2, mode=Mode.SUBTRACT)
    extrude(amount=-BOSS_EXTRUDE3_DEPTH)


solid = part.part
